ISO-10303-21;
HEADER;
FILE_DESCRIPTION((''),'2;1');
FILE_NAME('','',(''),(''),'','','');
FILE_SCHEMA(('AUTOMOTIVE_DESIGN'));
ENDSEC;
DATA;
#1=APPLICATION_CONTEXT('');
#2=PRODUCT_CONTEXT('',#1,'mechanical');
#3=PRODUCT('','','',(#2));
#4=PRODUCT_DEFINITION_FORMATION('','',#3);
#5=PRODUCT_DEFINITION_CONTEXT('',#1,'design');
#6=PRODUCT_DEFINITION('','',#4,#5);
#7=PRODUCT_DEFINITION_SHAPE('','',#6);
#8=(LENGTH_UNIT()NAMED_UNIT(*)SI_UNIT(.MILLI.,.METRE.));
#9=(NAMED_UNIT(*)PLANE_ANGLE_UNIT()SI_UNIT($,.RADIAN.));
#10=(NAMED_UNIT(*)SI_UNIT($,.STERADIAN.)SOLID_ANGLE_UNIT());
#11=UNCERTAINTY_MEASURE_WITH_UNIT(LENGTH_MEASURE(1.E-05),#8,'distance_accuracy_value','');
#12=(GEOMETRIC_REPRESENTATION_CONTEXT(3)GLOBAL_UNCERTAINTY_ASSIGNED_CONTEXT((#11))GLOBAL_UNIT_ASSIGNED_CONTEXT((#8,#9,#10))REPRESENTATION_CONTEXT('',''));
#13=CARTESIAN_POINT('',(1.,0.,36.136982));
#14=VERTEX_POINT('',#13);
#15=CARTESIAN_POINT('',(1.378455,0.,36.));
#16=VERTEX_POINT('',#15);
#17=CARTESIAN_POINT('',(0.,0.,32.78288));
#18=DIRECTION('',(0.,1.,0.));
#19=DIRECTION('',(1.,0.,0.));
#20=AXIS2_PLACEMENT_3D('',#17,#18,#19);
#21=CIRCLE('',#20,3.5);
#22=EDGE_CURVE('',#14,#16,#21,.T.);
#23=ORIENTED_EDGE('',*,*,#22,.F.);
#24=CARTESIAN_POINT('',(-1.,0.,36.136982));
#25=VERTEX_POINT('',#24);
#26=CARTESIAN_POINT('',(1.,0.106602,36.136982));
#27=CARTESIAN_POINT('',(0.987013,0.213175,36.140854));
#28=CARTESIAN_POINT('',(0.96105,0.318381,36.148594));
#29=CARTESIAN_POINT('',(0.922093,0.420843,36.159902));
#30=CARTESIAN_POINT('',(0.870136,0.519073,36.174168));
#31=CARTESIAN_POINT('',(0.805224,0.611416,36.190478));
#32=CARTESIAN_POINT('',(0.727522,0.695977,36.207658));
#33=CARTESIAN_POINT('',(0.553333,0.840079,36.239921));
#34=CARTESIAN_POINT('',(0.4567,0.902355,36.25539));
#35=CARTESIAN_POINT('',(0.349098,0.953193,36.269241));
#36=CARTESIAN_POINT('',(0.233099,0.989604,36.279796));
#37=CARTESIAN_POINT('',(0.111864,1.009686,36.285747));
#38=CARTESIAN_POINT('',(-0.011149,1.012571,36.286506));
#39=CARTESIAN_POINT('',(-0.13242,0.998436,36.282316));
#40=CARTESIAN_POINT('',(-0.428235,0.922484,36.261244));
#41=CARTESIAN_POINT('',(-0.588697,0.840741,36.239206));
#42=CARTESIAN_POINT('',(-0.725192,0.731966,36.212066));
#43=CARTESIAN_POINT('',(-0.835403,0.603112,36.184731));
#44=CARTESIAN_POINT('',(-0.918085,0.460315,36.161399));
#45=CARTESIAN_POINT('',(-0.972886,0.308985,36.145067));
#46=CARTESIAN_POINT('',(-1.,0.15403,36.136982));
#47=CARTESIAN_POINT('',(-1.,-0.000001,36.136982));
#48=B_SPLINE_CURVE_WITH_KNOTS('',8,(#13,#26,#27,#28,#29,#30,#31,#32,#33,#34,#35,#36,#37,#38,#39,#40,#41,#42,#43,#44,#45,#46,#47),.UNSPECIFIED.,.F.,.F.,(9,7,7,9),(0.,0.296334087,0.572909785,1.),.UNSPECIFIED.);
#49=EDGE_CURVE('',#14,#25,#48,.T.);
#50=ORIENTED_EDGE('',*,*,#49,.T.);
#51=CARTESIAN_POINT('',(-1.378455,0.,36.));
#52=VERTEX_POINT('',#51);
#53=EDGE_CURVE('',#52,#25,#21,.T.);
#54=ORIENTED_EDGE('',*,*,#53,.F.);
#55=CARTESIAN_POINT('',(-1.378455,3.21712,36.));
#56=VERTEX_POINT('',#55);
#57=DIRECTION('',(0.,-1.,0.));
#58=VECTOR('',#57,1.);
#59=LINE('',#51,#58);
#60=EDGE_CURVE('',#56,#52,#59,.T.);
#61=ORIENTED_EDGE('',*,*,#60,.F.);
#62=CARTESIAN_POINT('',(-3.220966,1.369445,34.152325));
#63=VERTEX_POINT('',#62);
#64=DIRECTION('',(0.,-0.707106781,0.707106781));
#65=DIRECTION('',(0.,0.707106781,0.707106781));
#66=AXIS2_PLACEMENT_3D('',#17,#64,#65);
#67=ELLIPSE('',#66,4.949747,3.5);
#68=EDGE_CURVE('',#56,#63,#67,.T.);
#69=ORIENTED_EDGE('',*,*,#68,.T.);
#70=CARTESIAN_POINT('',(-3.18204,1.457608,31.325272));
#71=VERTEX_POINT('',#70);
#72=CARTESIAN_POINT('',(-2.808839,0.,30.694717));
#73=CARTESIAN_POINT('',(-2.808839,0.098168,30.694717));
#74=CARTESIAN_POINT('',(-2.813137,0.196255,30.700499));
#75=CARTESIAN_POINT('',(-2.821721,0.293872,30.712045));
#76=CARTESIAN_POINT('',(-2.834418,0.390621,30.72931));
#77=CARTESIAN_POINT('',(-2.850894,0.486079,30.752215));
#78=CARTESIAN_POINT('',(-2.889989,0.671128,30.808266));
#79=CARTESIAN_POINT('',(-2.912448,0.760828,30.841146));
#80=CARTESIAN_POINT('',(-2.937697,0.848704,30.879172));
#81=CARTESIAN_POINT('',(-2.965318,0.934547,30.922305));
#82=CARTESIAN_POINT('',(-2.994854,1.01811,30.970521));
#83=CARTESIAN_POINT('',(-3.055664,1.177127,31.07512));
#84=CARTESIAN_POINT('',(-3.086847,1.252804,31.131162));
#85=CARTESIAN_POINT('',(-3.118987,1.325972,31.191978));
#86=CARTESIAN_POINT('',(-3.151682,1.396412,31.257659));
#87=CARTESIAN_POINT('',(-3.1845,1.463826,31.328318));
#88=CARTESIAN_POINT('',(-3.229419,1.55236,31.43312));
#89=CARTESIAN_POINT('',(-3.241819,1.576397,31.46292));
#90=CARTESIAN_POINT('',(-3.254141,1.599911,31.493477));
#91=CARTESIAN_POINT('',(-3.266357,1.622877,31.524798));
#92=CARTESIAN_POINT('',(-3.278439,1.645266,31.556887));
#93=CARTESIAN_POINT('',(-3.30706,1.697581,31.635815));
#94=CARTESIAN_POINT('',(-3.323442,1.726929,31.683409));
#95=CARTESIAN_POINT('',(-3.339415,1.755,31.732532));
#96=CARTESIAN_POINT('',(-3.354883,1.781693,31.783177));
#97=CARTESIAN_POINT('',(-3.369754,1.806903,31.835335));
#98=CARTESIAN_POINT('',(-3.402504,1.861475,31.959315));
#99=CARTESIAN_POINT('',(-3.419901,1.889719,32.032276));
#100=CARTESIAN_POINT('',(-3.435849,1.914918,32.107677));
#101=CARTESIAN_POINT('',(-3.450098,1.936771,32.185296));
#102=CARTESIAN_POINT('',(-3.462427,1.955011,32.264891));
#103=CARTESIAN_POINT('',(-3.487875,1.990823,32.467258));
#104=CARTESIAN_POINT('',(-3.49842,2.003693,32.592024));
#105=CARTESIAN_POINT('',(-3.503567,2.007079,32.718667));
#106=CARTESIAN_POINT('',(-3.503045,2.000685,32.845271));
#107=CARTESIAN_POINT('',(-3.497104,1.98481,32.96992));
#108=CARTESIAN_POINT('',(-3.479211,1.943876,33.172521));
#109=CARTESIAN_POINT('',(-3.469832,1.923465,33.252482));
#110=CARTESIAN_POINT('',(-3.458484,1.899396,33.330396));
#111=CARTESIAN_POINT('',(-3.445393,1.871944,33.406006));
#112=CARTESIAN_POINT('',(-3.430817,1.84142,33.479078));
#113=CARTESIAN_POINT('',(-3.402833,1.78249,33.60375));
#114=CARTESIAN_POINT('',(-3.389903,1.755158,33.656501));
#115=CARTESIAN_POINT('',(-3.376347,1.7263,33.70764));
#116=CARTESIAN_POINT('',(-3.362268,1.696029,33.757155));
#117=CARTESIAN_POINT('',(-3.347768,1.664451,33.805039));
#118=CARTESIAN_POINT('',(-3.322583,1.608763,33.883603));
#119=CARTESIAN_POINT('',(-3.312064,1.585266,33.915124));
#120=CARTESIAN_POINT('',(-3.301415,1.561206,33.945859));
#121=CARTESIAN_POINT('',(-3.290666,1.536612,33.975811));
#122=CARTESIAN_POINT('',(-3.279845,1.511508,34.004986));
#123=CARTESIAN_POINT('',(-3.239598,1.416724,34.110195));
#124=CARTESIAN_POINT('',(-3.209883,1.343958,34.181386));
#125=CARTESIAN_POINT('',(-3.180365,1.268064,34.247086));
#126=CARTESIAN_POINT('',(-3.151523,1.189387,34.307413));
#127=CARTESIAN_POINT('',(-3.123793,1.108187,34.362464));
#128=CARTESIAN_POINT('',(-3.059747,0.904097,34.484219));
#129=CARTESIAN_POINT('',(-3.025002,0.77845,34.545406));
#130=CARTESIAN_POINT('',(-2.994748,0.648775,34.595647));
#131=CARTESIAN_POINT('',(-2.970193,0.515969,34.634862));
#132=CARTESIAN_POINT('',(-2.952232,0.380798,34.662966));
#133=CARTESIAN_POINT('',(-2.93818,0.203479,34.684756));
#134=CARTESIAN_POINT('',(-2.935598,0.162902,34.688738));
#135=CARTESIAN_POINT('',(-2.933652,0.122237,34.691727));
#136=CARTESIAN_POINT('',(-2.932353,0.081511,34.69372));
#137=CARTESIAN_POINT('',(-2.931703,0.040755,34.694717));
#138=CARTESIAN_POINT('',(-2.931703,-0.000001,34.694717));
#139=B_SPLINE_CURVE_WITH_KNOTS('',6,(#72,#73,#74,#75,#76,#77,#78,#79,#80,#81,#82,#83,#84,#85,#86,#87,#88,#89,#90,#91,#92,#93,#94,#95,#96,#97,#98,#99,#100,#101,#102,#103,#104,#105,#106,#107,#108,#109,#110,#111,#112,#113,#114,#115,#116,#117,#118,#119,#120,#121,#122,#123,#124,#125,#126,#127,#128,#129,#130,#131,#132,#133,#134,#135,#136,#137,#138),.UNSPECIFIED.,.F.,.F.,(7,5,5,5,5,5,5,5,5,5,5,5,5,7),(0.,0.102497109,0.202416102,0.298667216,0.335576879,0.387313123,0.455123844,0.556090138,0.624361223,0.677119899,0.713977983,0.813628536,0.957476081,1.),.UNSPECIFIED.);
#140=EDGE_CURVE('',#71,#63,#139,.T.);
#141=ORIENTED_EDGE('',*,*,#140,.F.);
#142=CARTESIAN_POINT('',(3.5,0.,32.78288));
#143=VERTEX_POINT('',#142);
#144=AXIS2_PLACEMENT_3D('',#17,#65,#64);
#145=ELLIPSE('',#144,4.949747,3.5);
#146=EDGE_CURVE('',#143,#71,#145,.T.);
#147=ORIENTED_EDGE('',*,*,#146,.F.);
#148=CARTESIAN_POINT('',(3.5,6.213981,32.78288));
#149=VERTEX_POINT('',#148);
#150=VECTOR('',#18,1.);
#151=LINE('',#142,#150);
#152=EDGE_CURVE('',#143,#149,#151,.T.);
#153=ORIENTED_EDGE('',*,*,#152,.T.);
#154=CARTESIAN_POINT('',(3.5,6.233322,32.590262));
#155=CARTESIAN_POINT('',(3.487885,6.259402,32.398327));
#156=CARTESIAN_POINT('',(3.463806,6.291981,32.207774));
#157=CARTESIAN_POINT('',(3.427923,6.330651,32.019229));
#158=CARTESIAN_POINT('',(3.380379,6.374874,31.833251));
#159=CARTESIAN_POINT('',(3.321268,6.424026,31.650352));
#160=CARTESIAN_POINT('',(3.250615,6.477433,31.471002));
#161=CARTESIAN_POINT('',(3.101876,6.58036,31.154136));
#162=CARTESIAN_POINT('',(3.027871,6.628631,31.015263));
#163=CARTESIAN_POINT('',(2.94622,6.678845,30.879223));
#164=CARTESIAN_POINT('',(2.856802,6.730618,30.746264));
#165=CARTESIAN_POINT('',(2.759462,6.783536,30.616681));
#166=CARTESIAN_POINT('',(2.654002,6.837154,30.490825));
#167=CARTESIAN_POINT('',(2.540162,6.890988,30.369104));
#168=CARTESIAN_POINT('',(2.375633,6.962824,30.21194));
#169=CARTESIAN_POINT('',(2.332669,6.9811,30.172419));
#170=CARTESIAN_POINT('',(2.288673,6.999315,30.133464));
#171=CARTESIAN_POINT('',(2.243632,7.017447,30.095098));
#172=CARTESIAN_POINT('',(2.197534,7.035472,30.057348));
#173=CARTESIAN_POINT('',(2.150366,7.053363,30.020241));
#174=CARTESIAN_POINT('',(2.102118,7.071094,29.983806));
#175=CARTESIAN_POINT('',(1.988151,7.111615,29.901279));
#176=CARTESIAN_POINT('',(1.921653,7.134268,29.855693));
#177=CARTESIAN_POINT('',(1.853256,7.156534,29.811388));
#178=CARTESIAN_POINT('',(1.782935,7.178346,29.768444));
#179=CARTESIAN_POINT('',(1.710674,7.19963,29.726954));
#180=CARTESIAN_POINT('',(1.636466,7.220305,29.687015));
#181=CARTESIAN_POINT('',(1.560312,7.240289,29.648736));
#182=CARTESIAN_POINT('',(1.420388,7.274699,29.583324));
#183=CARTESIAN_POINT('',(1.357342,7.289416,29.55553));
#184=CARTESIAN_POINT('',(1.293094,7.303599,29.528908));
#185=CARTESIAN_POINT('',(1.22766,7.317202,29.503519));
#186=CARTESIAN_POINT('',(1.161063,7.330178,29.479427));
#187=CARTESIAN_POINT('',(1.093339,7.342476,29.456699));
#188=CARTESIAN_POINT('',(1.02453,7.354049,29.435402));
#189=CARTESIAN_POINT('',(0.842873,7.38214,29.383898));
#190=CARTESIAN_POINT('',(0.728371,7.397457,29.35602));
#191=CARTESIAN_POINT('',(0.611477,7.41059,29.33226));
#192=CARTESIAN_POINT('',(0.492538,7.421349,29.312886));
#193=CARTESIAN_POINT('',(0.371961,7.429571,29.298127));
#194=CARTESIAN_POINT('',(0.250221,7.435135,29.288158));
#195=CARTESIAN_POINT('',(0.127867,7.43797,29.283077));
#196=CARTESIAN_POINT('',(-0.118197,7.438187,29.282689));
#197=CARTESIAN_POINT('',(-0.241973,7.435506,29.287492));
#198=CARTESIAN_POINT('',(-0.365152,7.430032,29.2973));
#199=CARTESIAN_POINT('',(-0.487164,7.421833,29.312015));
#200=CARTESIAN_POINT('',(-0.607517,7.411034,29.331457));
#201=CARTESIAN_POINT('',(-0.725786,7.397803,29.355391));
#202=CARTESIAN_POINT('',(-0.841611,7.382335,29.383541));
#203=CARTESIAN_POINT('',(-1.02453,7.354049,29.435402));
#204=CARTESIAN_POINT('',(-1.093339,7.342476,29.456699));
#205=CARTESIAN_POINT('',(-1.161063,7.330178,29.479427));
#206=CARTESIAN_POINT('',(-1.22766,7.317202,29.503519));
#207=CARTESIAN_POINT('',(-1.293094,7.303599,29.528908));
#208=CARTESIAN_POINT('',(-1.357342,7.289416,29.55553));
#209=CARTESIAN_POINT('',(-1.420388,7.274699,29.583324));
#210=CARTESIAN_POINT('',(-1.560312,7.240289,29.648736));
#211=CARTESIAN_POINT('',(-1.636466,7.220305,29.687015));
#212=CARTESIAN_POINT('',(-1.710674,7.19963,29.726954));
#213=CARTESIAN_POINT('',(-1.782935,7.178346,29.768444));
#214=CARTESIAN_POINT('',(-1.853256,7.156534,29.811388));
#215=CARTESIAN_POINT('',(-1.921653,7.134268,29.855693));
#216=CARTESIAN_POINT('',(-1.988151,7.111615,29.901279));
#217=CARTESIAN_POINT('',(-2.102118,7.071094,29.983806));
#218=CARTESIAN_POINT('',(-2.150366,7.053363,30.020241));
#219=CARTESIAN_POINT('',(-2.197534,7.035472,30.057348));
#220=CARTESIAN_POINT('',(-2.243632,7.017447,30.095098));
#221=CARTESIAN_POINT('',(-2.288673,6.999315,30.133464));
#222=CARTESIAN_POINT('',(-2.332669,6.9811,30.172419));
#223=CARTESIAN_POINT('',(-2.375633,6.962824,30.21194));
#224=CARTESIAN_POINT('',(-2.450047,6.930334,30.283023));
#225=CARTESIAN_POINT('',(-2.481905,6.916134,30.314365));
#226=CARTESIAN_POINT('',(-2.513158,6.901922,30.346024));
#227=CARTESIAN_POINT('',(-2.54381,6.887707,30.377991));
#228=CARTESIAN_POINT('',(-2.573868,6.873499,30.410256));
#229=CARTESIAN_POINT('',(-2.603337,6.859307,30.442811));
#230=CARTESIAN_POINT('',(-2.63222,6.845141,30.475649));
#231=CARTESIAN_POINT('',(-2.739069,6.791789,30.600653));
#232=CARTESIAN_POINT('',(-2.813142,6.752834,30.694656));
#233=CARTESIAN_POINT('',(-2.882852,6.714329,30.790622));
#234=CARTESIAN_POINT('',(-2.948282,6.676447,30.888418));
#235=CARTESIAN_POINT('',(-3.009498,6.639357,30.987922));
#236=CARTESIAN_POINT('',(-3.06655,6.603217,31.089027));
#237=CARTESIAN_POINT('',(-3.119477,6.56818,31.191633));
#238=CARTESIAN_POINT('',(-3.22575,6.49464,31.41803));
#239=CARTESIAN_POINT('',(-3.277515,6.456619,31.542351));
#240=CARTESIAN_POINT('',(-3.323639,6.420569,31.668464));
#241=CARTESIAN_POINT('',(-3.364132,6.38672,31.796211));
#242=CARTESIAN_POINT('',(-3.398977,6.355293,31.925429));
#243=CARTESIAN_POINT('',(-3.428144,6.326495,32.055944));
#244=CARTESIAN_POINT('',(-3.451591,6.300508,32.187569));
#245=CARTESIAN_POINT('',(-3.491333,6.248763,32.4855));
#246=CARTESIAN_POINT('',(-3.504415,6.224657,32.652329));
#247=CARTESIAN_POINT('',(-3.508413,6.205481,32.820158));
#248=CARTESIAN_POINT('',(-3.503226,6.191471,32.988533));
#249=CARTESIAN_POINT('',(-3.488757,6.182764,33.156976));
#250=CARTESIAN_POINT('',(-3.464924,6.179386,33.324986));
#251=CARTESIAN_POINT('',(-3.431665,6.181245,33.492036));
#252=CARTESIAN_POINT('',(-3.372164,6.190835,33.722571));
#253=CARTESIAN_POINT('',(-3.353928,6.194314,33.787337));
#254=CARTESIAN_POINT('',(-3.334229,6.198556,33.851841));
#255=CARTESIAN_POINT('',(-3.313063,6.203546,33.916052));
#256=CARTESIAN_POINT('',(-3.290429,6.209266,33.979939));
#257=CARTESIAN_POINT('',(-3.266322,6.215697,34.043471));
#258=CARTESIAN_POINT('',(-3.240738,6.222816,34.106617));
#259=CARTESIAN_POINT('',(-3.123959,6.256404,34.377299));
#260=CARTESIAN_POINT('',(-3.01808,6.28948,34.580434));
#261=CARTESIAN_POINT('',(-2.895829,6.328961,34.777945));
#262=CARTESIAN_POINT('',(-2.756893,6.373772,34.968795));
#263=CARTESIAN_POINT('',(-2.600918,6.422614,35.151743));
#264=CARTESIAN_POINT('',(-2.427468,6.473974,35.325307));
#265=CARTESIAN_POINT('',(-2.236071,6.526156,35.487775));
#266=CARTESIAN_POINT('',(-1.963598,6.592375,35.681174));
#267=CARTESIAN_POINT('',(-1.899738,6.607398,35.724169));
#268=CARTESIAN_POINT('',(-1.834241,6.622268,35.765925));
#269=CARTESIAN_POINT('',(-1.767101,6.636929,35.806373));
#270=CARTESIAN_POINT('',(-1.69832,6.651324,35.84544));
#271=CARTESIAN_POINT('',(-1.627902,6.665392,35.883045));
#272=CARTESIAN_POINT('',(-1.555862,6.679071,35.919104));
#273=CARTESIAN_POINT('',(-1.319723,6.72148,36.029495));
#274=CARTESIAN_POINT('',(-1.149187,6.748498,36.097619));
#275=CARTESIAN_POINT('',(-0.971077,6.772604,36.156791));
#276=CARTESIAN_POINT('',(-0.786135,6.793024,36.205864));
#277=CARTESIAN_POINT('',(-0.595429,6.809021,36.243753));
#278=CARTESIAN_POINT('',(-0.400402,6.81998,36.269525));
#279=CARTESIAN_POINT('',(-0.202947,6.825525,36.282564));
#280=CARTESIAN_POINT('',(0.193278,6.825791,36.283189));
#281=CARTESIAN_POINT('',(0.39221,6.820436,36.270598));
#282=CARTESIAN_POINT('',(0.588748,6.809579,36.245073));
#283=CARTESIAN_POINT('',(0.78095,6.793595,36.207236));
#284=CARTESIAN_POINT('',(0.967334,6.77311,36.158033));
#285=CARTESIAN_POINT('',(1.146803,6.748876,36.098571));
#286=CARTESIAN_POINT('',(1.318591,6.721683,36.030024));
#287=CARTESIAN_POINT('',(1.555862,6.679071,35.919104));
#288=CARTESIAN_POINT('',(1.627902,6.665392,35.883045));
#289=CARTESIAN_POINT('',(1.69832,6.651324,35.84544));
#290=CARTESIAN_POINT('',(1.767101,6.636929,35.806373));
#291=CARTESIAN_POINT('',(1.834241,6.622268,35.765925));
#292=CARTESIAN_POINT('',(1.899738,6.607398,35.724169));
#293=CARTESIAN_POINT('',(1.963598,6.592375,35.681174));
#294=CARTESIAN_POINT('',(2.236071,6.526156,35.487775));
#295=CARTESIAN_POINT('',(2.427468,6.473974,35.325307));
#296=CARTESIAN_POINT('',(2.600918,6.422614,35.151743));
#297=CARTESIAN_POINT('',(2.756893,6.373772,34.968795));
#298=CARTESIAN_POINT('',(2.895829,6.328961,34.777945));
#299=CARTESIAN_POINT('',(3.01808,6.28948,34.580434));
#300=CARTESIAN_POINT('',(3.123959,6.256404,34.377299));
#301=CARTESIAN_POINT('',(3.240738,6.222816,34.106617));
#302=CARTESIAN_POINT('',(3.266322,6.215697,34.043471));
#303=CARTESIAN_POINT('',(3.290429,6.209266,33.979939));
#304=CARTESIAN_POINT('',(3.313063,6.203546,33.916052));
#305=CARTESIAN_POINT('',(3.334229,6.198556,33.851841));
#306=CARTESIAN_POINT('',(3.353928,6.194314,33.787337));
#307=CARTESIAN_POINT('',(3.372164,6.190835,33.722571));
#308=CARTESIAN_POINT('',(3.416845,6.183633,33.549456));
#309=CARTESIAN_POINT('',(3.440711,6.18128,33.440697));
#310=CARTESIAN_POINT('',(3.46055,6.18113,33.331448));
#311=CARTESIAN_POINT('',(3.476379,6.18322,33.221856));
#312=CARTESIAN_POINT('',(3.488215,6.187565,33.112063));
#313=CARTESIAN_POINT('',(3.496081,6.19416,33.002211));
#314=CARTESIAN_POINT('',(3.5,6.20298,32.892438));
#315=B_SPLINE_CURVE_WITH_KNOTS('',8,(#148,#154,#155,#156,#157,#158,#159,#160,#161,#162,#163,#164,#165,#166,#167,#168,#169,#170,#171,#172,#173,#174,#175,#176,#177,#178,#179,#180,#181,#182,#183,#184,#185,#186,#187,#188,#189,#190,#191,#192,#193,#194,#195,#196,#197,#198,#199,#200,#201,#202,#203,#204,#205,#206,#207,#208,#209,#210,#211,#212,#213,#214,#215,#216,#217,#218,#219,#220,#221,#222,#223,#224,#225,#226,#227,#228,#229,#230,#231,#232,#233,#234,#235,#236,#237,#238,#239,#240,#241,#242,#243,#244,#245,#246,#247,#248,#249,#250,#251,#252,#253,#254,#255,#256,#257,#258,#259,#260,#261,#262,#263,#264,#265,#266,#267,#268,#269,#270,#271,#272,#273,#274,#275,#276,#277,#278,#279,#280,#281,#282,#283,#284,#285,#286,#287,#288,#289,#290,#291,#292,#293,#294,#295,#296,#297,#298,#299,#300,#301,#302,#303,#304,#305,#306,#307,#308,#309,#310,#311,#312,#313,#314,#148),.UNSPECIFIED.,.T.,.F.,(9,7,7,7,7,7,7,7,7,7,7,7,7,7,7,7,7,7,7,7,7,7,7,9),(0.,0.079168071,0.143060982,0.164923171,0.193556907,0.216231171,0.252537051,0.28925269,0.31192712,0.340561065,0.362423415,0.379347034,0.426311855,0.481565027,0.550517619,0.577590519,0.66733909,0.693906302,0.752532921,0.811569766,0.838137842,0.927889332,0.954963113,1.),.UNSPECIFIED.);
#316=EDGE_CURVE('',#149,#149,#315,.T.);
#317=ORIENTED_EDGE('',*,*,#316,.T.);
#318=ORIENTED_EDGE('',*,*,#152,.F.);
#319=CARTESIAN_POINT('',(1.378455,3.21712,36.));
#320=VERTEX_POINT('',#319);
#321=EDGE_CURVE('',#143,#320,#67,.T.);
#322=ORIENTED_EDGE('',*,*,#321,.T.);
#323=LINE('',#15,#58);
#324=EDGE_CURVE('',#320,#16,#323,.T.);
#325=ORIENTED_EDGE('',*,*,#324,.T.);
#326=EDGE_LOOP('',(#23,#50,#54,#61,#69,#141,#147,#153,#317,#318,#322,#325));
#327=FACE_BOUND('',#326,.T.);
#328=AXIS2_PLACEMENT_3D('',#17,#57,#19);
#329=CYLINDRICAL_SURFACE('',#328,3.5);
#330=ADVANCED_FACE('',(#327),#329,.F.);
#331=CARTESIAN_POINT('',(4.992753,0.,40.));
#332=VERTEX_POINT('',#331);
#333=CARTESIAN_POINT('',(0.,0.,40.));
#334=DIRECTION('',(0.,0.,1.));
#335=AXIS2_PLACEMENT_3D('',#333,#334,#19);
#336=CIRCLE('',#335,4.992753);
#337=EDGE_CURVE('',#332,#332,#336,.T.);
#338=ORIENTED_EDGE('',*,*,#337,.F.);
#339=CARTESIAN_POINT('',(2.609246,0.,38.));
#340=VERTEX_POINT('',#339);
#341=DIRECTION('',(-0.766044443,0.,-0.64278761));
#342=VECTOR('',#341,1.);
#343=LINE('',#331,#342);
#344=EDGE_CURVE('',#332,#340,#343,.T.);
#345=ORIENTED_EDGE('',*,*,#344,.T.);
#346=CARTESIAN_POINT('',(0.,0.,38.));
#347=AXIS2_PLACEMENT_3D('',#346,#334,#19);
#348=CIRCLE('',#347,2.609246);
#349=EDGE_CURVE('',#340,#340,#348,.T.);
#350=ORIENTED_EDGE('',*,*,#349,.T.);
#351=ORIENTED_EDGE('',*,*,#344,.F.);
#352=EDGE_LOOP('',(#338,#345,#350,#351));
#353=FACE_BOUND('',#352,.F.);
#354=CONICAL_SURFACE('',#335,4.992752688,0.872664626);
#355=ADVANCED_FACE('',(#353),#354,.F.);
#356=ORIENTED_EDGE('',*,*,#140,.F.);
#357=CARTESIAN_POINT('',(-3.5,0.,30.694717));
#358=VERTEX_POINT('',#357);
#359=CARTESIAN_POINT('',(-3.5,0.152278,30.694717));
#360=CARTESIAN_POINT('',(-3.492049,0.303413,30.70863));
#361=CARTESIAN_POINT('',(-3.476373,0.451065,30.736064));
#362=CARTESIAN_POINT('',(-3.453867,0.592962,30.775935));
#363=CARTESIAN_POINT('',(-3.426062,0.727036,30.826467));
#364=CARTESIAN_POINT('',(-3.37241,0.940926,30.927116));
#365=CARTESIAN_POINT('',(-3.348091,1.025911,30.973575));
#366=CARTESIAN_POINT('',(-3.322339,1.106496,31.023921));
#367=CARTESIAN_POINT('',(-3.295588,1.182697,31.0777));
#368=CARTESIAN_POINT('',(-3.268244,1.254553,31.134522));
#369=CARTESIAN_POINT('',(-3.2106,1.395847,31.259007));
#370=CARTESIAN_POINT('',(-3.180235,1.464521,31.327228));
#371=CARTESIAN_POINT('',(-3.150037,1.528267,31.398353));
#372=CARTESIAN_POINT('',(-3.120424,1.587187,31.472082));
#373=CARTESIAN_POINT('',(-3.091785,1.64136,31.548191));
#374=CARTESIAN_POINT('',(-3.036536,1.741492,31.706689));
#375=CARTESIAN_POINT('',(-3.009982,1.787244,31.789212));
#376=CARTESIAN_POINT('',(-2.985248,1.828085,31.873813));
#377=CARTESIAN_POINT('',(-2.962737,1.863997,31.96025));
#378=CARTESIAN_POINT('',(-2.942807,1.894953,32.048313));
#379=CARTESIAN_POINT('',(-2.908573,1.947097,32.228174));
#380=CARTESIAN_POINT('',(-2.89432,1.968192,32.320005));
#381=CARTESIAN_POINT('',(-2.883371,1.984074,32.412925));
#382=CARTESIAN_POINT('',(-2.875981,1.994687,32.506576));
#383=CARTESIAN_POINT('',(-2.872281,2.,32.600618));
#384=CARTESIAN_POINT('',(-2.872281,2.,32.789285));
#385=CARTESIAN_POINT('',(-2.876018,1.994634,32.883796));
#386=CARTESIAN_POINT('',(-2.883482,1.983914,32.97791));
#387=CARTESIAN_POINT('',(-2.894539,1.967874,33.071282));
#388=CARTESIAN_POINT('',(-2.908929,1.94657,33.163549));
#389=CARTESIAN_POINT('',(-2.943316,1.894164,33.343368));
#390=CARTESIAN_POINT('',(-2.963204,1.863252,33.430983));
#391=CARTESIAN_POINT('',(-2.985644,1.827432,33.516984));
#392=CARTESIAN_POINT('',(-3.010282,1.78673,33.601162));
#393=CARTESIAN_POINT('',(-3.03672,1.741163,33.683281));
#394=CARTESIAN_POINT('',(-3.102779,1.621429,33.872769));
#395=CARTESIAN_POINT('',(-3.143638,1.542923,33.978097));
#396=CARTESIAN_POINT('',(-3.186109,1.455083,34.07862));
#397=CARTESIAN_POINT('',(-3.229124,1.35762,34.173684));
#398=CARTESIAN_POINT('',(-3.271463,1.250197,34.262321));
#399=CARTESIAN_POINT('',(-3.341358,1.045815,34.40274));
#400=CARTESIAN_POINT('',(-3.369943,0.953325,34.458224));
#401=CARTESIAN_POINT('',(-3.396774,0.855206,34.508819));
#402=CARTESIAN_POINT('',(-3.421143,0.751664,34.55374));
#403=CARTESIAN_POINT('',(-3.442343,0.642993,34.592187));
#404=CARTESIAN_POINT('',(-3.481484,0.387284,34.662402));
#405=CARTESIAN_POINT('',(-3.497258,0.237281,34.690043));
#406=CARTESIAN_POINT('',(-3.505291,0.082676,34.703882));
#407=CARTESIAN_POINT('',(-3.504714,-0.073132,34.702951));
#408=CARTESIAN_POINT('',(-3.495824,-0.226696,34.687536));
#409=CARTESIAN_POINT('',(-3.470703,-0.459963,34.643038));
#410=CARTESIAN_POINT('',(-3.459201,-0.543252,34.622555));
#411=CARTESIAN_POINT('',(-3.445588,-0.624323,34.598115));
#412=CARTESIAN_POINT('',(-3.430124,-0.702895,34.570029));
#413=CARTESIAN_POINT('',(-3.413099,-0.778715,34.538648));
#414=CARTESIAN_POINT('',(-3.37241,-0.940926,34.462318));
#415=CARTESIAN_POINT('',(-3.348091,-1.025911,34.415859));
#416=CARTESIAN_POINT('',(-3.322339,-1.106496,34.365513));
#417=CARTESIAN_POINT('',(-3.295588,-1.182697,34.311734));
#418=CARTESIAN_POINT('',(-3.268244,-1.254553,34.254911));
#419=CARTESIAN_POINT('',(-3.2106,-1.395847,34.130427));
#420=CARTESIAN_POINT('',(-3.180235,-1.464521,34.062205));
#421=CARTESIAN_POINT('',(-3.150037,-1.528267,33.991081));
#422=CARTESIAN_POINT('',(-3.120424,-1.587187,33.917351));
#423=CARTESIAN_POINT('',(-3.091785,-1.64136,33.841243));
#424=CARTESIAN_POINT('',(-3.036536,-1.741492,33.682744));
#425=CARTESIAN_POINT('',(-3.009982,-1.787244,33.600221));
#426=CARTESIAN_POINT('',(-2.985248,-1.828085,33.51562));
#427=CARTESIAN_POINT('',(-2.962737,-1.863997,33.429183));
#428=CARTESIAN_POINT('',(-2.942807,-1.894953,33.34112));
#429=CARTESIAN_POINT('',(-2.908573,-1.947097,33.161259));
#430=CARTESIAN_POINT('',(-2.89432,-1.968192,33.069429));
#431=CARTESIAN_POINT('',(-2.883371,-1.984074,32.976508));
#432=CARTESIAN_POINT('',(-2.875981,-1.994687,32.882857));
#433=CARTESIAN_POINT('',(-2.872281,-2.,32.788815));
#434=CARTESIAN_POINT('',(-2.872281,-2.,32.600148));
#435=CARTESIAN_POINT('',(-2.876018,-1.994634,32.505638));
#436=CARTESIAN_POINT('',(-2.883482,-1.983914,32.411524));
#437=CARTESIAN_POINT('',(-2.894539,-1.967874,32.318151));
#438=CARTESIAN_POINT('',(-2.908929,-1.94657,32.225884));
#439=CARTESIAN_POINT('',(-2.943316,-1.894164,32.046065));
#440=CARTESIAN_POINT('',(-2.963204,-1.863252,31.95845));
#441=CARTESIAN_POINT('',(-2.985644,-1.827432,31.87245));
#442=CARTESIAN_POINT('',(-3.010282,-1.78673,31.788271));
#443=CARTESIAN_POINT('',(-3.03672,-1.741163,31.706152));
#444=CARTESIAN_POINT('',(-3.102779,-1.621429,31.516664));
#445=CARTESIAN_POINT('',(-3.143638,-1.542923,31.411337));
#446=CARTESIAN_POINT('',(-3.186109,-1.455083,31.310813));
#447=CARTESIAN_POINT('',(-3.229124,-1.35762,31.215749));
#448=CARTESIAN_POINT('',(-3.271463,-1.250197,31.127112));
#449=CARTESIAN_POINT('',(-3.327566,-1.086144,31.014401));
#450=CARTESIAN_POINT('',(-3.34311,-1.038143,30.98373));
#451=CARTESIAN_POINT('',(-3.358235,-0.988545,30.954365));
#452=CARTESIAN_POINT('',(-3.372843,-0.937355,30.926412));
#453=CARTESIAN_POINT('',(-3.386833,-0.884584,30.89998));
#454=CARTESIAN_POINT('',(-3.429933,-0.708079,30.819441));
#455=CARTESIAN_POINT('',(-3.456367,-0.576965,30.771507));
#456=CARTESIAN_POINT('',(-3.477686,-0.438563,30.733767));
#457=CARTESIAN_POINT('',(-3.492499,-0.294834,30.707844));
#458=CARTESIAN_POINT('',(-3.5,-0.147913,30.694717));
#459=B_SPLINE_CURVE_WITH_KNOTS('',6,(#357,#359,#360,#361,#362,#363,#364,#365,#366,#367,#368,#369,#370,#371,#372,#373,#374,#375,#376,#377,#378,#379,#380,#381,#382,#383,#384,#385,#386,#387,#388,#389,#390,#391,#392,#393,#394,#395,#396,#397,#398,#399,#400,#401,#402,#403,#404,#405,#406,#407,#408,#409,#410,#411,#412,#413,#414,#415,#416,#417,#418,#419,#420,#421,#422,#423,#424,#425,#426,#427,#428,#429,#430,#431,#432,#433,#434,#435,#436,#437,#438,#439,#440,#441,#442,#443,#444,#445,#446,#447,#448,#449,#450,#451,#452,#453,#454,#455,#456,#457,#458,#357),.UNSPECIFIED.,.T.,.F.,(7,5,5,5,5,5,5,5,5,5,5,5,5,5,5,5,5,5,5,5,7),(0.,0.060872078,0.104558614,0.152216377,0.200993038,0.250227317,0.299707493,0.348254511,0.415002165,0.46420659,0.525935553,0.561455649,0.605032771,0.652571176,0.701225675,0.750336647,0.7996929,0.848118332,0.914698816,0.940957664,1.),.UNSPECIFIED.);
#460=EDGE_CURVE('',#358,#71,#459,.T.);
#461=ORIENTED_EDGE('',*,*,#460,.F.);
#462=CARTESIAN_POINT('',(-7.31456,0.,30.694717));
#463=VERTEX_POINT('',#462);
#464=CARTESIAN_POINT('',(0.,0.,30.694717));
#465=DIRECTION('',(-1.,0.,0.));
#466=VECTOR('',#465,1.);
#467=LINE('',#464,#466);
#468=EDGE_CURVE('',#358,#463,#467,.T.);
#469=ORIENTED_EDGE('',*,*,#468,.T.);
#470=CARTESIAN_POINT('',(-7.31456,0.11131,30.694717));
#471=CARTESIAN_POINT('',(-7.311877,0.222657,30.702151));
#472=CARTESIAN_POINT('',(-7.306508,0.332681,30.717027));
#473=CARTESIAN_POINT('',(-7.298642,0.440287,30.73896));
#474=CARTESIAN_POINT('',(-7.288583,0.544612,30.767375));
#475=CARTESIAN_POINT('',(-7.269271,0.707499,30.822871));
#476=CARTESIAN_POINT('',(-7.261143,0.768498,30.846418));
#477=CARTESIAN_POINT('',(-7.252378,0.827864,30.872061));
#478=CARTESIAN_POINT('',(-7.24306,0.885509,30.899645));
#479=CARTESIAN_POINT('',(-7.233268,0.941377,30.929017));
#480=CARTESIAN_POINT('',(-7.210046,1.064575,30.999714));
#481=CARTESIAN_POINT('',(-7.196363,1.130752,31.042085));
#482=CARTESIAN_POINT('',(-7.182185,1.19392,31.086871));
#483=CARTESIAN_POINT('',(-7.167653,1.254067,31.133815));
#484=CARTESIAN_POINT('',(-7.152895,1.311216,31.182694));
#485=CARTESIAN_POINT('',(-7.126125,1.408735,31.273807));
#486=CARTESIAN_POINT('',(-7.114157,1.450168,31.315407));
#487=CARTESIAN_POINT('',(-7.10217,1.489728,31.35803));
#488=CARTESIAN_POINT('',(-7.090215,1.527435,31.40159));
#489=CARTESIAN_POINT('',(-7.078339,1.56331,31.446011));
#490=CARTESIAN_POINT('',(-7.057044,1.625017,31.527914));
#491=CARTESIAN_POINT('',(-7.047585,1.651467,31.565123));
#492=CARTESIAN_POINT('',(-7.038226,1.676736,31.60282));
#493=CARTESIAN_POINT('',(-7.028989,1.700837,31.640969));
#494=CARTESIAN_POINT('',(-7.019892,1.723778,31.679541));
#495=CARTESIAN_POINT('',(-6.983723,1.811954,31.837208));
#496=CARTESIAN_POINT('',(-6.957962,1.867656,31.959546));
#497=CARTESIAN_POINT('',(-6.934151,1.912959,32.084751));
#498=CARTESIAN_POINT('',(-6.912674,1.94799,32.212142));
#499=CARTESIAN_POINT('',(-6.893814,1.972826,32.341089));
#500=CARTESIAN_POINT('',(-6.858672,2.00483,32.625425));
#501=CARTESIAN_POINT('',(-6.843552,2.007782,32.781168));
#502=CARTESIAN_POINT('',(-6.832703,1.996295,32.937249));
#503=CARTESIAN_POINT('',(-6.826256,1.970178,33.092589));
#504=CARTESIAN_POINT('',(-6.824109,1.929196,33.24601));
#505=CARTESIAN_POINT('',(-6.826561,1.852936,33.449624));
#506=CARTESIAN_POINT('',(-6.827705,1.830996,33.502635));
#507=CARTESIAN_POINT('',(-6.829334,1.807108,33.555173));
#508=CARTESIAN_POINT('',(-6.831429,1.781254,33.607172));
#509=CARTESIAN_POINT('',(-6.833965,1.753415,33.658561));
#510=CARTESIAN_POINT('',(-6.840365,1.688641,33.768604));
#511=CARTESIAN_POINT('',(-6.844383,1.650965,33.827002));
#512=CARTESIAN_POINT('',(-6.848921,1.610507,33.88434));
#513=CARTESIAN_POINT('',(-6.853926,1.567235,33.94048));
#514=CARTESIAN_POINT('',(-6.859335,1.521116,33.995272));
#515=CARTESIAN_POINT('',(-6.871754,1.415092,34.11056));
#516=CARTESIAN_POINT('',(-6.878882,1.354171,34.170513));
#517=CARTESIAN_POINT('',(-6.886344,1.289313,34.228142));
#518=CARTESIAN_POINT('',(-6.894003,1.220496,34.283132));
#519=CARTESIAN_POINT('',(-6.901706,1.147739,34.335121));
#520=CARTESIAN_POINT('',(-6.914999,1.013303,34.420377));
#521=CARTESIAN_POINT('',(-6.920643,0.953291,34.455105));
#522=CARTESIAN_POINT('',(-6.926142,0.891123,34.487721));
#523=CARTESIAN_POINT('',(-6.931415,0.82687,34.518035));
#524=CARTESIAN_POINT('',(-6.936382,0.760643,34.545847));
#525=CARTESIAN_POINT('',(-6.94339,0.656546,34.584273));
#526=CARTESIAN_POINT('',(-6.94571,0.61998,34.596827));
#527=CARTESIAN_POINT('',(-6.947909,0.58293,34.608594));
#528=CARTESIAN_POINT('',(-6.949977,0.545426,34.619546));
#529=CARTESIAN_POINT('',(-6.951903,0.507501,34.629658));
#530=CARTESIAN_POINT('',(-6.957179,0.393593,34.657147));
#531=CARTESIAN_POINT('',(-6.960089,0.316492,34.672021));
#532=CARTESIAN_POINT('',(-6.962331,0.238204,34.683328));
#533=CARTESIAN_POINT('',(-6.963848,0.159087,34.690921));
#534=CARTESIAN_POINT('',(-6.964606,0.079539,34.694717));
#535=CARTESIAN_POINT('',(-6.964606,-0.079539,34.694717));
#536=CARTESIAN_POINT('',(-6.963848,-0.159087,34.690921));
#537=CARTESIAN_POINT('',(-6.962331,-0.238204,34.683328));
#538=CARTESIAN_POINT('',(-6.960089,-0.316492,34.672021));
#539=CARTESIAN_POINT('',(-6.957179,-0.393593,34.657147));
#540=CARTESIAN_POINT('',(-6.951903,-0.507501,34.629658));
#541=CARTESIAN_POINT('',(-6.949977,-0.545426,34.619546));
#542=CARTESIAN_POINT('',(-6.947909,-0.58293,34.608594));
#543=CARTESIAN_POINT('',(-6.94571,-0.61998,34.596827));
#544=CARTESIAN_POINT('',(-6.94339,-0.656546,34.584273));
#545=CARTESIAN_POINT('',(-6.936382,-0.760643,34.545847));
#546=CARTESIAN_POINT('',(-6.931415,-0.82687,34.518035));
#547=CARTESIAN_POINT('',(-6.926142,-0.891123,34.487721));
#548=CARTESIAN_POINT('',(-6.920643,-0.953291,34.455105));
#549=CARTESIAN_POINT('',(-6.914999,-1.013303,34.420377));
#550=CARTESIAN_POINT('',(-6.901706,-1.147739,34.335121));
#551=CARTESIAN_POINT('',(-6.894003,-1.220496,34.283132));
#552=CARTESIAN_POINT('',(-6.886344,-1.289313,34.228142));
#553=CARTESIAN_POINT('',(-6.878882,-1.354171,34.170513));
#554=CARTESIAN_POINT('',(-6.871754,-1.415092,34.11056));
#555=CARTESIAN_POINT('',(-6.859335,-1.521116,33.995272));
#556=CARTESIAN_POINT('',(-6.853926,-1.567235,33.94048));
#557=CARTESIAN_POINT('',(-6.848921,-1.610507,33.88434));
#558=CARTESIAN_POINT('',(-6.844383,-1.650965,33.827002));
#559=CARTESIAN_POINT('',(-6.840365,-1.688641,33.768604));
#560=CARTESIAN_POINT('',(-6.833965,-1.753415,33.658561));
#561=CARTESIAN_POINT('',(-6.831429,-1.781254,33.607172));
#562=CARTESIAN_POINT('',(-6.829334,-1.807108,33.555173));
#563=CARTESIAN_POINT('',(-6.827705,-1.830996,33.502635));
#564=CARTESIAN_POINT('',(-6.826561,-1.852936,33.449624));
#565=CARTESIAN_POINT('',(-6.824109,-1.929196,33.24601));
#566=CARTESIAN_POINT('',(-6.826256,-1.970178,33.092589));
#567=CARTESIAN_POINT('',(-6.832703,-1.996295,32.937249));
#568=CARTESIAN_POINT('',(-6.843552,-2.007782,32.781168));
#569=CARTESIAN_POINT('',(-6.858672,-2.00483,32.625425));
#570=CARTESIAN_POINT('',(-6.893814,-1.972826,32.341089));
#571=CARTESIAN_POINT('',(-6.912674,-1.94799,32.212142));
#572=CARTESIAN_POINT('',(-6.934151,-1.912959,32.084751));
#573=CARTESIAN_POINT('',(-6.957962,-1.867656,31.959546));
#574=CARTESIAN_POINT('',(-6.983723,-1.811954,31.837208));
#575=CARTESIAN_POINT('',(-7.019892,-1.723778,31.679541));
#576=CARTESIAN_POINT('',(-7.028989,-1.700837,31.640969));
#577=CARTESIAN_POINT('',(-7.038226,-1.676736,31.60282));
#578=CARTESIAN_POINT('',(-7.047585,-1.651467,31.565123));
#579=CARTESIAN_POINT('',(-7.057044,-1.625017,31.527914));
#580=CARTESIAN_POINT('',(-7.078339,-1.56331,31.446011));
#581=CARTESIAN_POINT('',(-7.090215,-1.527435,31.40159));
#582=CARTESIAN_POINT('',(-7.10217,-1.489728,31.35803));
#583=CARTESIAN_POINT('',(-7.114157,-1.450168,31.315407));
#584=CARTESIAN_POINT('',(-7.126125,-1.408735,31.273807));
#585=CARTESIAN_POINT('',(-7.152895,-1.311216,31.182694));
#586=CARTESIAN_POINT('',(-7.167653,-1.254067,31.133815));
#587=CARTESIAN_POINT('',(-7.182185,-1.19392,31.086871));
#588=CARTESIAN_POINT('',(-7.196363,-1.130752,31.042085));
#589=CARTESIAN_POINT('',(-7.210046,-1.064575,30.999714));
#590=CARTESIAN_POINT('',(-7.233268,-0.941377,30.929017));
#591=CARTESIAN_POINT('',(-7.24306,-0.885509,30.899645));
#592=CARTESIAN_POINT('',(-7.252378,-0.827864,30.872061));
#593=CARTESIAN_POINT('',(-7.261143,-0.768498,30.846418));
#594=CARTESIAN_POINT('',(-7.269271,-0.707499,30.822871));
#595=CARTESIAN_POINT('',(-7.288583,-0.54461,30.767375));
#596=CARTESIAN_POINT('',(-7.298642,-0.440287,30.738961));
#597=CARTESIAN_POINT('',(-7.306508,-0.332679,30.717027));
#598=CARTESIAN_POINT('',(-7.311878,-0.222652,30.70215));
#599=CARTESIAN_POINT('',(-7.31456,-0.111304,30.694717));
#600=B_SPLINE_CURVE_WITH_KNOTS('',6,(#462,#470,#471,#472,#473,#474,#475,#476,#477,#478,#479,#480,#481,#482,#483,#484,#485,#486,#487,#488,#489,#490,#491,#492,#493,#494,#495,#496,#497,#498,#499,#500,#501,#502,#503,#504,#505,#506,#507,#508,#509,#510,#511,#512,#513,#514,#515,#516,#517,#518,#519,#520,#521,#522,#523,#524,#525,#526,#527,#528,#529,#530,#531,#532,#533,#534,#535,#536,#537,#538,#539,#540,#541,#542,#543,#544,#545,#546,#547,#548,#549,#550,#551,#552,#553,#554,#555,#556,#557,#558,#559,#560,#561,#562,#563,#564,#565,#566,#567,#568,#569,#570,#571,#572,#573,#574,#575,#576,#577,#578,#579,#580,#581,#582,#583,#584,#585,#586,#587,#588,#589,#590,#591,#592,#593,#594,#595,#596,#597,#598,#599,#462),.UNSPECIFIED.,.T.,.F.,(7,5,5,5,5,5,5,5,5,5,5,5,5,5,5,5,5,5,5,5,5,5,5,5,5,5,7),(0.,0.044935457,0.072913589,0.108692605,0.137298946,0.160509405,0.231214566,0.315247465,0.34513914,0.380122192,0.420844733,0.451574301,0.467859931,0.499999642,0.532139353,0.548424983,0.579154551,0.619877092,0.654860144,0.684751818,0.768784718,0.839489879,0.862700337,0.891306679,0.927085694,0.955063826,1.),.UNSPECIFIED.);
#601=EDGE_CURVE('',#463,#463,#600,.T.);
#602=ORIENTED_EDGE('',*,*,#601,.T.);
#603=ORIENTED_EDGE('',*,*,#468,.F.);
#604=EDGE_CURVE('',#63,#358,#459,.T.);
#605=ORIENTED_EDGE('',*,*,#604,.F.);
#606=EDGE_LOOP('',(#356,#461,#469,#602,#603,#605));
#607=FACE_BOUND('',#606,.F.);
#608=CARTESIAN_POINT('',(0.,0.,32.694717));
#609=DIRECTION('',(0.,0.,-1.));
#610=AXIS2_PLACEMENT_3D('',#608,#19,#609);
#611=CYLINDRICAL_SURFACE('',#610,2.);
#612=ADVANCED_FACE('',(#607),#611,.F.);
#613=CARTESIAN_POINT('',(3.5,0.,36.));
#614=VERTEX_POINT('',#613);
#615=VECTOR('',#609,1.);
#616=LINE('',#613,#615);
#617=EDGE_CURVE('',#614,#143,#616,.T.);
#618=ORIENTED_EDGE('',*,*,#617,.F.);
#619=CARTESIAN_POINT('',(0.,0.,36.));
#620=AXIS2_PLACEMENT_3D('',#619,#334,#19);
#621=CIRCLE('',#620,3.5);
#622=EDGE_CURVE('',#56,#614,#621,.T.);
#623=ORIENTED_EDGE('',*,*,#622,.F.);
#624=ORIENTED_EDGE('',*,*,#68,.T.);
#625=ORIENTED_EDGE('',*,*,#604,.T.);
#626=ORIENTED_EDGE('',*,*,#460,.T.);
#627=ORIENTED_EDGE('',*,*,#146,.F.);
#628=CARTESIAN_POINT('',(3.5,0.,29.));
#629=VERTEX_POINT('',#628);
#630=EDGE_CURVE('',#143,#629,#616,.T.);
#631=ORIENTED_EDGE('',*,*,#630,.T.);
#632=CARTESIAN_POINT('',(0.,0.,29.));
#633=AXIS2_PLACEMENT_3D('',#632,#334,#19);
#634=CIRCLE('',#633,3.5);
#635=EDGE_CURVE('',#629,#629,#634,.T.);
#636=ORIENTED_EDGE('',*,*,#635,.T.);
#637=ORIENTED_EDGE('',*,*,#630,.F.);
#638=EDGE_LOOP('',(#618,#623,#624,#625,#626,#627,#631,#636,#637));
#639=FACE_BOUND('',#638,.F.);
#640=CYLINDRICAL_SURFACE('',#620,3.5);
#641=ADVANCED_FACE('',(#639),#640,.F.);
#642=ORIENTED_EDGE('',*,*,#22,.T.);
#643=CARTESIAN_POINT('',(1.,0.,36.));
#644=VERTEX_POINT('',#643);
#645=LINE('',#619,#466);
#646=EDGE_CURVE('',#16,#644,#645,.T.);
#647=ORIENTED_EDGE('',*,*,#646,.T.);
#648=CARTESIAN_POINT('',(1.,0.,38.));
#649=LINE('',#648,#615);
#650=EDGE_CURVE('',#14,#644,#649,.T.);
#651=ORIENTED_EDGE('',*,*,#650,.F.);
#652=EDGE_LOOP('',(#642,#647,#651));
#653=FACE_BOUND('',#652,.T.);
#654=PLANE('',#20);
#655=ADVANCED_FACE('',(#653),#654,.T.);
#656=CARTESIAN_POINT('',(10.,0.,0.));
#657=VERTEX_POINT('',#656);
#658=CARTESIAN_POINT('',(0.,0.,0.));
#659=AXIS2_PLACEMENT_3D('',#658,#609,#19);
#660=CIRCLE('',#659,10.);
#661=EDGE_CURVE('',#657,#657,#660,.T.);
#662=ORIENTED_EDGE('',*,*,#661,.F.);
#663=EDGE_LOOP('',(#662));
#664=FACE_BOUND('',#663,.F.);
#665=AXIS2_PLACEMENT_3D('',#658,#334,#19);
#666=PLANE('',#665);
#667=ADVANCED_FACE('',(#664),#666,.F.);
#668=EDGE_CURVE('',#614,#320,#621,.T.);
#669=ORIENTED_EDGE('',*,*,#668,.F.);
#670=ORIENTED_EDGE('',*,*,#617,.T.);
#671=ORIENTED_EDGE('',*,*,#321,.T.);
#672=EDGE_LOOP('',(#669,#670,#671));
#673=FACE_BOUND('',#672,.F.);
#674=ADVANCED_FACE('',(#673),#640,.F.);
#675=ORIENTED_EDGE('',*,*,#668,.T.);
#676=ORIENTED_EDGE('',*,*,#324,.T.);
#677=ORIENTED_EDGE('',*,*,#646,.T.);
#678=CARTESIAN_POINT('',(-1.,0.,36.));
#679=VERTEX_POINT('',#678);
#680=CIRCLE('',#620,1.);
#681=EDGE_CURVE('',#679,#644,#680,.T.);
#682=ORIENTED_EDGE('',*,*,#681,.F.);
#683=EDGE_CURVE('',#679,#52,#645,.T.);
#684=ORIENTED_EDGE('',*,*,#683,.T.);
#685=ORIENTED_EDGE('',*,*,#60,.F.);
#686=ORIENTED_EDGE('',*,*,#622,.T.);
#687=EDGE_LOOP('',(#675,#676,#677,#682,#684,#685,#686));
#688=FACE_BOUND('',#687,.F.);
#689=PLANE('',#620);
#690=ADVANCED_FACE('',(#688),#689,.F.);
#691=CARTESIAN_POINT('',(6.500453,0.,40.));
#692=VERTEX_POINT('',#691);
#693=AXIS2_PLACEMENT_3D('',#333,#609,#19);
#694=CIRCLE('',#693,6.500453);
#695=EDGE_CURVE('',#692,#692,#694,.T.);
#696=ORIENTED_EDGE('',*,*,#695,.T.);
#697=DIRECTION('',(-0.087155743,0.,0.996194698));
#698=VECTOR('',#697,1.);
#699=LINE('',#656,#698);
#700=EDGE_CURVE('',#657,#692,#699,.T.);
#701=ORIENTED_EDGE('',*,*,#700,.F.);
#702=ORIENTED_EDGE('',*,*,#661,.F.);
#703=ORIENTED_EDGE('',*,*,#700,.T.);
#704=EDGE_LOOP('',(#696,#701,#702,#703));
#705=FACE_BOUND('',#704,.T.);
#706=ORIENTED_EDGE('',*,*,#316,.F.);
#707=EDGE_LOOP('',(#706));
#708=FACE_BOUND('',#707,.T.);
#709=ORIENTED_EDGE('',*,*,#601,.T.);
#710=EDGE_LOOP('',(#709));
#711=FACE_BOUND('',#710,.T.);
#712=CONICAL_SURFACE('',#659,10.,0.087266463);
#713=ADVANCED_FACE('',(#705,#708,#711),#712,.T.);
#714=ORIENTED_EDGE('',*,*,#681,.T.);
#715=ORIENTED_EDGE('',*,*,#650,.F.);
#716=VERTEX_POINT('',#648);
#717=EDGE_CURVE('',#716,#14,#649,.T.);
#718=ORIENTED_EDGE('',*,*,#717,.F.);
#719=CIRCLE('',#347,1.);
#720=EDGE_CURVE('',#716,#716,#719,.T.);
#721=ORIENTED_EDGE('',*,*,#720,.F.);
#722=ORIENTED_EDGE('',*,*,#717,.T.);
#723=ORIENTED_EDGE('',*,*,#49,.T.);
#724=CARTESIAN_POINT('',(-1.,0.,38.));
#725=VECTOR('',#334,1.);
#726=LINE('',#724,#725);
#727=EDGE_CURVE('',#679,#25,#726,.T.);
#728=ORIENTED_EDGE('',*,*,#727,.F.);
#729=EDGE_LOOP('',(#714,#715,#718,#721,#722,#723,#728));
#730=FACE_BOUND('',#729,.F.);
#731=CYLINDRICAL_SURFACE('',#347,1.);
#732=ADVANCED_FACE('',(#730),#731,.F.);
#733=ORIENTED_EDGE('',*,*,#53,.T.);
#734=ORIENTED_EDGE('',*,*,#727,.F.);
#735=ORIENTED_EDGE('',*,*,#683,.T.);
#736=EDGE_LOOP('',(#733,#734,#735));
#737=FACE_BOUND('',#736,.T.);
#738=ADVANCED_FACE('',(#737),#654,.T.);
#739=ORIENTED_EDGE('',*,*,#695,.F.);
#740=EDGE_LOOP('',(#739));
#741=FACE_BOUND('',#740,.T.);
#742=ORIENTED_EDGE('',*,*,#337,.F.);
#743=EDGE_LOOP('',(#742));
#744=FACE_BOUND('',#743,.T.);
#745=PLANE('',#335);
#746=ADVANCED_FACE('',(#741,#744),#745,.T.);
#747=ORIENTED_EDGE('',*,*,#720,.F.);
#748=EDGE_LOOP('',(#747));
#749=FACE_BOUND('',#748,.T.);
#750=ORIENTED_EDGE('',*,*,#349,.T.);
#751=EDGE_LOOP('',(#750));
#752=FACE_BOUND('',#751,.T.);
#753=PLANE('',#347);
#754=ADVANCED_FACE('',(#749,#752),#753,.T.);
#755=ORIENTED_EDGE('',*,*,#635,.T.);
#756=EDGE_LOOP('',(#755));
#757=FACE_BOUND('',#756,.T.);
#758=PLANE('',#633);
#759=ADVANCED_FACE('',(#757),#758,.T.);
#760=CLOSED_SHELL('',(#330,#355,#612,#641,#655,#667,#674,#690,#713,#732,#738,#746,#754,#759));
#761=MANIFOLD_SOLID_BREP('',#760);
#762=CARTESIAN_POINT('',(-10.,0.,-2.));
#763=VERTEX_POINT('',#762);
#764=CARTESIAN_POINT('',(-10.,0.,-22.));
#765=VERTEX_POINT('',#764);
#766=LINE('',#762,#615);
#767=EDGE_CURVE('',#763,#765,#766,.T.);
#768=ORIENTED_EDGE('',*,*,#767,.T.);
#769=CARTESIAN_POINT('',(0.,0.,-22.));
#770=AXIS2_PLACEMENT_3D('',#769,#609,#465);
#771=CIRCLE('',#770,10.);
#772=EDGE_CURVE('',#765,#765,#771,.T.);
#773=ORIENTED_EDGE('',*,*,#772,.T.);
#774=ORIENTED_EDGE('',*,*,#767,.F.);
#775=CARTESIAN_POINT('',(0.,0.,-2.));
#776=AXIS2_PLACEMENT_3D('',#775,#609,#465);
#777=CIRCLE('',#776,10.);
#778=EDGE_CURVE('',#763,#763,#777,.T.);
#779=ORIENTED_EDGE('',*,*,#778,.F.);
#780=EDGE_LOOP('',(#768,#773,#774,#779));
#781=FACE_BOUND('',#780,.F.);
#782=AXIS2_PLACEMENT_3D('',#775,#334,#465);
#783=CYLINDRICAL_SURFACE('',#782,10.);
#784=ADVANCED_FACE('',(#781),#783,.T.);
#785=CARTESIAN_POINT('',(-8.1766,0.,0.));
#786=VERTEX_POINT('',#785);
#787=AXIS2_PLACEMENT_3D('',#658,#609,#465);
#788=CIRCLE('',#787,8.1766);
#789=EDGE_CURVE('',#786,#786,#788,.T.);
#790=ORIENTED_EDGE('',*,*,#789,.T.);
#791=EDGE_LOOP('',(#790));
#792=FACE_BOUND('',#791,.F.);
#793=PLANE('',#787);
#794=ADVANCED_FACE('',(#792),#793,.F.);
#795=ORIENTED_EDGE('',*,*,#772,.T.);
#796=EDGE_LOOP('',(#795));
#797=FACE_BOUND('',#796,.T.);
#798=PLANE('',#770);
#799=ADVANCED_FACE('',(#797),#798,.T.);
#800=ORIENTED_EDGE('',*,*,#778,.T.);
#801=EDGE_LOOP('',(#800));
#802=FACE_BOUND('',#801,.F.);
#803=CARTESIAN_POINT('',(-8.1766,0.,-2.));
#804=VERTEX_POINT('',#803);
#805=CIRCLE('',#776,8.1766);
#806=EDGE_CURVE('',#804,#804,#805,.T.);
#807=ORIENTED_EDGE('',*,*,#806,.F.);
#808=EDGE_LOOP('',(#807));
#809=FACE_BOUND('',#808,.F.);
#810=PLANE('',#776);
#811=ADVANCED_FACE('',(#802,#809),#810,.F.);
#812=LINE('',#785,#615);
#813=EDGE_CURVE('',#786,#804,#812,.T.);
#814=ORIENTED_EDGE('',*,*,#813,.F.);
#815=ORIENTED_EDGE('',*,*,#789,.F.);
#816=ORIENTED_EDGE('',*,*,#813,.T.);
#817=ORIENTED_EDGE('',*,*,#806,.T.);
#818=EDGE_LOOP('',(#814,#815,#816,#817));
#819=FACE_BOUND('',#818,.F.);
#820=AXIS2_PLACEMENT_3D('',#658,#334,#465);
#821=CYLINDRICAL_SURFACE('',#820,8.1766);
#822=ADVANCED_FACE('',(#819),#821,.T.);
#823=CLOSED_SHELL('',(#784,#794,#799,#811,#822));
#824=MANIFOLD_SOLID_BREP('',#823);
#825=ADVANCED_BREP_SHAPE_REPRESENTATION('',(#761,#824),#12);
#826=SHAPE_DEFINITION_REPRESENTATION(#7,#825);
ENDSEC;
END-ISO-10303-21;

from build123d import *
from build123d.topology import SkipClean

# Parameters (mm, degrees)
SKETCH2_R           = 10
BOSS_EXTRUDE1_DEPTH = 40
BOSS_EXTRUDE1_TAPER = 5
SKETCH3_R           = 4.992752688
CUT_EXTRUDE1_DEPTH  = 2
CUT_EXTRUDE1_DRAFT  = -50
SKETCH5_R           = 1
CUT_EXTRUDE3_DEPTH  = 2
SKETCH6_R           = 3.5
CUT_EXTRUDE4_DEPTH  = 7
SKETCH13_R          = 3.5
CUT_EXTRUDE9_DEPTH  = 15
SKETCH16_R          = 2
CUT_EXTRUDE11_DEPTH = 16
SKETCH19_R          = 8.176600108
BOSS_EXTRUDE2_DEPTH = 2
SKETCH20_R          = 10
BOSS_EXTRUDE3_DEPTH = 20


with BuildPart() as part:
    # Sketch2 → Boss-Extrude1 (new body)
    with BuildSketch(Plane.XY):
        Circle(SKETCH2_R)
    extrude(amount=BOSS_EXTRUDE1_DEPTH, taper=BOSS_EXTRUDE1_TAPER)


with BuildPart() as cut_extrude1_tool:
    # Sketch3 → Cut-Extrude1 (with draft: the straight prism first)
    with BuildSketch(Plane.XY.offset(40)):
        Circle(SKETCH3_R)
    extrude(amount=-CUT_EXTRUDE1_DEPTH)
    # Cut-Extrude1: the draft: its side faces are tilted about the plane it starts from
    cut_extrude1_sides = [cut_extrude1_tool.faces().sort_by_distance(p)[0] for p in [
        (-4.992752688, 0, 39),
    ]]
    draft(cut_extrude1_sides, Plane.XY.offset(40), CUT_EXTRUDE1_DRAFT)


with BuildPart() as part_1:
    add(part.part)

    # Cut-Extrude1: cut by cut_extrude1_tool
    add(cut_extrude1_tool.part, mode=Mode.SUBTRACT)

    # Sketch5 → Cut-Extrude3 (cut)
    with BuildSketch(Plane.XY.offset(38)):
        Circle(SKETCH5_R)
    extrude(amount=-CUT_EXTRUDE3_DEPTH, mode=Mode.SUBTRACT)

    # Sketch6 → Cut-Extrude4 (cut)
    with BuildSketch(Plane.XY.offset(36)):
        Circle(SKETCH6_R)
    extrude(amount=-CUT_EXTRUDE4_DEPTH, mode=Mode.SUBTRACT)

    # Sketch13 → Cut-Extrude9 (cut)
    with SkipClean():  # the faces are left unmerged after this step: merging them gives an invalid solid
        with BuildSketch(Plane(origin=(0, 0, 0), x_dir=(1, 0, 0), z_dir=(0, 1, 0))):
            with Locations((0, -32.782879844)):
                Circle(SKETCH13_R)
        extrude(amount=CUT_EXTRUDE9_DEPTH, mode=Mode.SUBTRACT)

    # Sketch16 → Cut-Extrude11 (cut)
    with SkipClean():  # the faces are left unmerged after this step: merging them gives an invalid solid
        with BuildSketch(Plane(origin=(0, 0, 0), x_dir=(0, 0, -1), z_dir=(1, 0, 0))):
            with Locations((-32.694716643, 0)):
                Circle(SKETCH16_R)
        extrude(amount=-CUT_EXTRUDE11_DEPTH, mode=Mode.SUBTRACT)


with BuildPart() as body_2:
    # Sketch19 → Boss-Extrude2 (new body)
    with BuildSketch(Plane(origin=(0, 0, 0), x_dir=(-1, 0, 0), z_dir=(0, 0, -1))):
        Circle(SKETCH19_R)
    extrude(amount=BOSS_EXTRUDE2_DEPTH)

    # Sketch20 → Boss-Extrude3 (add)
    with BuildSketch(Plane(origin=(0, 0, -2), x_dir=(-1, 0, 0), z_dir=(0, 0, -1))):
        Circle(SKETCH20_R)
    extrude(amount=BOSS_EXTRUDE3_DEPTH)


solid = Compound([part_1.part, body_2.part])
